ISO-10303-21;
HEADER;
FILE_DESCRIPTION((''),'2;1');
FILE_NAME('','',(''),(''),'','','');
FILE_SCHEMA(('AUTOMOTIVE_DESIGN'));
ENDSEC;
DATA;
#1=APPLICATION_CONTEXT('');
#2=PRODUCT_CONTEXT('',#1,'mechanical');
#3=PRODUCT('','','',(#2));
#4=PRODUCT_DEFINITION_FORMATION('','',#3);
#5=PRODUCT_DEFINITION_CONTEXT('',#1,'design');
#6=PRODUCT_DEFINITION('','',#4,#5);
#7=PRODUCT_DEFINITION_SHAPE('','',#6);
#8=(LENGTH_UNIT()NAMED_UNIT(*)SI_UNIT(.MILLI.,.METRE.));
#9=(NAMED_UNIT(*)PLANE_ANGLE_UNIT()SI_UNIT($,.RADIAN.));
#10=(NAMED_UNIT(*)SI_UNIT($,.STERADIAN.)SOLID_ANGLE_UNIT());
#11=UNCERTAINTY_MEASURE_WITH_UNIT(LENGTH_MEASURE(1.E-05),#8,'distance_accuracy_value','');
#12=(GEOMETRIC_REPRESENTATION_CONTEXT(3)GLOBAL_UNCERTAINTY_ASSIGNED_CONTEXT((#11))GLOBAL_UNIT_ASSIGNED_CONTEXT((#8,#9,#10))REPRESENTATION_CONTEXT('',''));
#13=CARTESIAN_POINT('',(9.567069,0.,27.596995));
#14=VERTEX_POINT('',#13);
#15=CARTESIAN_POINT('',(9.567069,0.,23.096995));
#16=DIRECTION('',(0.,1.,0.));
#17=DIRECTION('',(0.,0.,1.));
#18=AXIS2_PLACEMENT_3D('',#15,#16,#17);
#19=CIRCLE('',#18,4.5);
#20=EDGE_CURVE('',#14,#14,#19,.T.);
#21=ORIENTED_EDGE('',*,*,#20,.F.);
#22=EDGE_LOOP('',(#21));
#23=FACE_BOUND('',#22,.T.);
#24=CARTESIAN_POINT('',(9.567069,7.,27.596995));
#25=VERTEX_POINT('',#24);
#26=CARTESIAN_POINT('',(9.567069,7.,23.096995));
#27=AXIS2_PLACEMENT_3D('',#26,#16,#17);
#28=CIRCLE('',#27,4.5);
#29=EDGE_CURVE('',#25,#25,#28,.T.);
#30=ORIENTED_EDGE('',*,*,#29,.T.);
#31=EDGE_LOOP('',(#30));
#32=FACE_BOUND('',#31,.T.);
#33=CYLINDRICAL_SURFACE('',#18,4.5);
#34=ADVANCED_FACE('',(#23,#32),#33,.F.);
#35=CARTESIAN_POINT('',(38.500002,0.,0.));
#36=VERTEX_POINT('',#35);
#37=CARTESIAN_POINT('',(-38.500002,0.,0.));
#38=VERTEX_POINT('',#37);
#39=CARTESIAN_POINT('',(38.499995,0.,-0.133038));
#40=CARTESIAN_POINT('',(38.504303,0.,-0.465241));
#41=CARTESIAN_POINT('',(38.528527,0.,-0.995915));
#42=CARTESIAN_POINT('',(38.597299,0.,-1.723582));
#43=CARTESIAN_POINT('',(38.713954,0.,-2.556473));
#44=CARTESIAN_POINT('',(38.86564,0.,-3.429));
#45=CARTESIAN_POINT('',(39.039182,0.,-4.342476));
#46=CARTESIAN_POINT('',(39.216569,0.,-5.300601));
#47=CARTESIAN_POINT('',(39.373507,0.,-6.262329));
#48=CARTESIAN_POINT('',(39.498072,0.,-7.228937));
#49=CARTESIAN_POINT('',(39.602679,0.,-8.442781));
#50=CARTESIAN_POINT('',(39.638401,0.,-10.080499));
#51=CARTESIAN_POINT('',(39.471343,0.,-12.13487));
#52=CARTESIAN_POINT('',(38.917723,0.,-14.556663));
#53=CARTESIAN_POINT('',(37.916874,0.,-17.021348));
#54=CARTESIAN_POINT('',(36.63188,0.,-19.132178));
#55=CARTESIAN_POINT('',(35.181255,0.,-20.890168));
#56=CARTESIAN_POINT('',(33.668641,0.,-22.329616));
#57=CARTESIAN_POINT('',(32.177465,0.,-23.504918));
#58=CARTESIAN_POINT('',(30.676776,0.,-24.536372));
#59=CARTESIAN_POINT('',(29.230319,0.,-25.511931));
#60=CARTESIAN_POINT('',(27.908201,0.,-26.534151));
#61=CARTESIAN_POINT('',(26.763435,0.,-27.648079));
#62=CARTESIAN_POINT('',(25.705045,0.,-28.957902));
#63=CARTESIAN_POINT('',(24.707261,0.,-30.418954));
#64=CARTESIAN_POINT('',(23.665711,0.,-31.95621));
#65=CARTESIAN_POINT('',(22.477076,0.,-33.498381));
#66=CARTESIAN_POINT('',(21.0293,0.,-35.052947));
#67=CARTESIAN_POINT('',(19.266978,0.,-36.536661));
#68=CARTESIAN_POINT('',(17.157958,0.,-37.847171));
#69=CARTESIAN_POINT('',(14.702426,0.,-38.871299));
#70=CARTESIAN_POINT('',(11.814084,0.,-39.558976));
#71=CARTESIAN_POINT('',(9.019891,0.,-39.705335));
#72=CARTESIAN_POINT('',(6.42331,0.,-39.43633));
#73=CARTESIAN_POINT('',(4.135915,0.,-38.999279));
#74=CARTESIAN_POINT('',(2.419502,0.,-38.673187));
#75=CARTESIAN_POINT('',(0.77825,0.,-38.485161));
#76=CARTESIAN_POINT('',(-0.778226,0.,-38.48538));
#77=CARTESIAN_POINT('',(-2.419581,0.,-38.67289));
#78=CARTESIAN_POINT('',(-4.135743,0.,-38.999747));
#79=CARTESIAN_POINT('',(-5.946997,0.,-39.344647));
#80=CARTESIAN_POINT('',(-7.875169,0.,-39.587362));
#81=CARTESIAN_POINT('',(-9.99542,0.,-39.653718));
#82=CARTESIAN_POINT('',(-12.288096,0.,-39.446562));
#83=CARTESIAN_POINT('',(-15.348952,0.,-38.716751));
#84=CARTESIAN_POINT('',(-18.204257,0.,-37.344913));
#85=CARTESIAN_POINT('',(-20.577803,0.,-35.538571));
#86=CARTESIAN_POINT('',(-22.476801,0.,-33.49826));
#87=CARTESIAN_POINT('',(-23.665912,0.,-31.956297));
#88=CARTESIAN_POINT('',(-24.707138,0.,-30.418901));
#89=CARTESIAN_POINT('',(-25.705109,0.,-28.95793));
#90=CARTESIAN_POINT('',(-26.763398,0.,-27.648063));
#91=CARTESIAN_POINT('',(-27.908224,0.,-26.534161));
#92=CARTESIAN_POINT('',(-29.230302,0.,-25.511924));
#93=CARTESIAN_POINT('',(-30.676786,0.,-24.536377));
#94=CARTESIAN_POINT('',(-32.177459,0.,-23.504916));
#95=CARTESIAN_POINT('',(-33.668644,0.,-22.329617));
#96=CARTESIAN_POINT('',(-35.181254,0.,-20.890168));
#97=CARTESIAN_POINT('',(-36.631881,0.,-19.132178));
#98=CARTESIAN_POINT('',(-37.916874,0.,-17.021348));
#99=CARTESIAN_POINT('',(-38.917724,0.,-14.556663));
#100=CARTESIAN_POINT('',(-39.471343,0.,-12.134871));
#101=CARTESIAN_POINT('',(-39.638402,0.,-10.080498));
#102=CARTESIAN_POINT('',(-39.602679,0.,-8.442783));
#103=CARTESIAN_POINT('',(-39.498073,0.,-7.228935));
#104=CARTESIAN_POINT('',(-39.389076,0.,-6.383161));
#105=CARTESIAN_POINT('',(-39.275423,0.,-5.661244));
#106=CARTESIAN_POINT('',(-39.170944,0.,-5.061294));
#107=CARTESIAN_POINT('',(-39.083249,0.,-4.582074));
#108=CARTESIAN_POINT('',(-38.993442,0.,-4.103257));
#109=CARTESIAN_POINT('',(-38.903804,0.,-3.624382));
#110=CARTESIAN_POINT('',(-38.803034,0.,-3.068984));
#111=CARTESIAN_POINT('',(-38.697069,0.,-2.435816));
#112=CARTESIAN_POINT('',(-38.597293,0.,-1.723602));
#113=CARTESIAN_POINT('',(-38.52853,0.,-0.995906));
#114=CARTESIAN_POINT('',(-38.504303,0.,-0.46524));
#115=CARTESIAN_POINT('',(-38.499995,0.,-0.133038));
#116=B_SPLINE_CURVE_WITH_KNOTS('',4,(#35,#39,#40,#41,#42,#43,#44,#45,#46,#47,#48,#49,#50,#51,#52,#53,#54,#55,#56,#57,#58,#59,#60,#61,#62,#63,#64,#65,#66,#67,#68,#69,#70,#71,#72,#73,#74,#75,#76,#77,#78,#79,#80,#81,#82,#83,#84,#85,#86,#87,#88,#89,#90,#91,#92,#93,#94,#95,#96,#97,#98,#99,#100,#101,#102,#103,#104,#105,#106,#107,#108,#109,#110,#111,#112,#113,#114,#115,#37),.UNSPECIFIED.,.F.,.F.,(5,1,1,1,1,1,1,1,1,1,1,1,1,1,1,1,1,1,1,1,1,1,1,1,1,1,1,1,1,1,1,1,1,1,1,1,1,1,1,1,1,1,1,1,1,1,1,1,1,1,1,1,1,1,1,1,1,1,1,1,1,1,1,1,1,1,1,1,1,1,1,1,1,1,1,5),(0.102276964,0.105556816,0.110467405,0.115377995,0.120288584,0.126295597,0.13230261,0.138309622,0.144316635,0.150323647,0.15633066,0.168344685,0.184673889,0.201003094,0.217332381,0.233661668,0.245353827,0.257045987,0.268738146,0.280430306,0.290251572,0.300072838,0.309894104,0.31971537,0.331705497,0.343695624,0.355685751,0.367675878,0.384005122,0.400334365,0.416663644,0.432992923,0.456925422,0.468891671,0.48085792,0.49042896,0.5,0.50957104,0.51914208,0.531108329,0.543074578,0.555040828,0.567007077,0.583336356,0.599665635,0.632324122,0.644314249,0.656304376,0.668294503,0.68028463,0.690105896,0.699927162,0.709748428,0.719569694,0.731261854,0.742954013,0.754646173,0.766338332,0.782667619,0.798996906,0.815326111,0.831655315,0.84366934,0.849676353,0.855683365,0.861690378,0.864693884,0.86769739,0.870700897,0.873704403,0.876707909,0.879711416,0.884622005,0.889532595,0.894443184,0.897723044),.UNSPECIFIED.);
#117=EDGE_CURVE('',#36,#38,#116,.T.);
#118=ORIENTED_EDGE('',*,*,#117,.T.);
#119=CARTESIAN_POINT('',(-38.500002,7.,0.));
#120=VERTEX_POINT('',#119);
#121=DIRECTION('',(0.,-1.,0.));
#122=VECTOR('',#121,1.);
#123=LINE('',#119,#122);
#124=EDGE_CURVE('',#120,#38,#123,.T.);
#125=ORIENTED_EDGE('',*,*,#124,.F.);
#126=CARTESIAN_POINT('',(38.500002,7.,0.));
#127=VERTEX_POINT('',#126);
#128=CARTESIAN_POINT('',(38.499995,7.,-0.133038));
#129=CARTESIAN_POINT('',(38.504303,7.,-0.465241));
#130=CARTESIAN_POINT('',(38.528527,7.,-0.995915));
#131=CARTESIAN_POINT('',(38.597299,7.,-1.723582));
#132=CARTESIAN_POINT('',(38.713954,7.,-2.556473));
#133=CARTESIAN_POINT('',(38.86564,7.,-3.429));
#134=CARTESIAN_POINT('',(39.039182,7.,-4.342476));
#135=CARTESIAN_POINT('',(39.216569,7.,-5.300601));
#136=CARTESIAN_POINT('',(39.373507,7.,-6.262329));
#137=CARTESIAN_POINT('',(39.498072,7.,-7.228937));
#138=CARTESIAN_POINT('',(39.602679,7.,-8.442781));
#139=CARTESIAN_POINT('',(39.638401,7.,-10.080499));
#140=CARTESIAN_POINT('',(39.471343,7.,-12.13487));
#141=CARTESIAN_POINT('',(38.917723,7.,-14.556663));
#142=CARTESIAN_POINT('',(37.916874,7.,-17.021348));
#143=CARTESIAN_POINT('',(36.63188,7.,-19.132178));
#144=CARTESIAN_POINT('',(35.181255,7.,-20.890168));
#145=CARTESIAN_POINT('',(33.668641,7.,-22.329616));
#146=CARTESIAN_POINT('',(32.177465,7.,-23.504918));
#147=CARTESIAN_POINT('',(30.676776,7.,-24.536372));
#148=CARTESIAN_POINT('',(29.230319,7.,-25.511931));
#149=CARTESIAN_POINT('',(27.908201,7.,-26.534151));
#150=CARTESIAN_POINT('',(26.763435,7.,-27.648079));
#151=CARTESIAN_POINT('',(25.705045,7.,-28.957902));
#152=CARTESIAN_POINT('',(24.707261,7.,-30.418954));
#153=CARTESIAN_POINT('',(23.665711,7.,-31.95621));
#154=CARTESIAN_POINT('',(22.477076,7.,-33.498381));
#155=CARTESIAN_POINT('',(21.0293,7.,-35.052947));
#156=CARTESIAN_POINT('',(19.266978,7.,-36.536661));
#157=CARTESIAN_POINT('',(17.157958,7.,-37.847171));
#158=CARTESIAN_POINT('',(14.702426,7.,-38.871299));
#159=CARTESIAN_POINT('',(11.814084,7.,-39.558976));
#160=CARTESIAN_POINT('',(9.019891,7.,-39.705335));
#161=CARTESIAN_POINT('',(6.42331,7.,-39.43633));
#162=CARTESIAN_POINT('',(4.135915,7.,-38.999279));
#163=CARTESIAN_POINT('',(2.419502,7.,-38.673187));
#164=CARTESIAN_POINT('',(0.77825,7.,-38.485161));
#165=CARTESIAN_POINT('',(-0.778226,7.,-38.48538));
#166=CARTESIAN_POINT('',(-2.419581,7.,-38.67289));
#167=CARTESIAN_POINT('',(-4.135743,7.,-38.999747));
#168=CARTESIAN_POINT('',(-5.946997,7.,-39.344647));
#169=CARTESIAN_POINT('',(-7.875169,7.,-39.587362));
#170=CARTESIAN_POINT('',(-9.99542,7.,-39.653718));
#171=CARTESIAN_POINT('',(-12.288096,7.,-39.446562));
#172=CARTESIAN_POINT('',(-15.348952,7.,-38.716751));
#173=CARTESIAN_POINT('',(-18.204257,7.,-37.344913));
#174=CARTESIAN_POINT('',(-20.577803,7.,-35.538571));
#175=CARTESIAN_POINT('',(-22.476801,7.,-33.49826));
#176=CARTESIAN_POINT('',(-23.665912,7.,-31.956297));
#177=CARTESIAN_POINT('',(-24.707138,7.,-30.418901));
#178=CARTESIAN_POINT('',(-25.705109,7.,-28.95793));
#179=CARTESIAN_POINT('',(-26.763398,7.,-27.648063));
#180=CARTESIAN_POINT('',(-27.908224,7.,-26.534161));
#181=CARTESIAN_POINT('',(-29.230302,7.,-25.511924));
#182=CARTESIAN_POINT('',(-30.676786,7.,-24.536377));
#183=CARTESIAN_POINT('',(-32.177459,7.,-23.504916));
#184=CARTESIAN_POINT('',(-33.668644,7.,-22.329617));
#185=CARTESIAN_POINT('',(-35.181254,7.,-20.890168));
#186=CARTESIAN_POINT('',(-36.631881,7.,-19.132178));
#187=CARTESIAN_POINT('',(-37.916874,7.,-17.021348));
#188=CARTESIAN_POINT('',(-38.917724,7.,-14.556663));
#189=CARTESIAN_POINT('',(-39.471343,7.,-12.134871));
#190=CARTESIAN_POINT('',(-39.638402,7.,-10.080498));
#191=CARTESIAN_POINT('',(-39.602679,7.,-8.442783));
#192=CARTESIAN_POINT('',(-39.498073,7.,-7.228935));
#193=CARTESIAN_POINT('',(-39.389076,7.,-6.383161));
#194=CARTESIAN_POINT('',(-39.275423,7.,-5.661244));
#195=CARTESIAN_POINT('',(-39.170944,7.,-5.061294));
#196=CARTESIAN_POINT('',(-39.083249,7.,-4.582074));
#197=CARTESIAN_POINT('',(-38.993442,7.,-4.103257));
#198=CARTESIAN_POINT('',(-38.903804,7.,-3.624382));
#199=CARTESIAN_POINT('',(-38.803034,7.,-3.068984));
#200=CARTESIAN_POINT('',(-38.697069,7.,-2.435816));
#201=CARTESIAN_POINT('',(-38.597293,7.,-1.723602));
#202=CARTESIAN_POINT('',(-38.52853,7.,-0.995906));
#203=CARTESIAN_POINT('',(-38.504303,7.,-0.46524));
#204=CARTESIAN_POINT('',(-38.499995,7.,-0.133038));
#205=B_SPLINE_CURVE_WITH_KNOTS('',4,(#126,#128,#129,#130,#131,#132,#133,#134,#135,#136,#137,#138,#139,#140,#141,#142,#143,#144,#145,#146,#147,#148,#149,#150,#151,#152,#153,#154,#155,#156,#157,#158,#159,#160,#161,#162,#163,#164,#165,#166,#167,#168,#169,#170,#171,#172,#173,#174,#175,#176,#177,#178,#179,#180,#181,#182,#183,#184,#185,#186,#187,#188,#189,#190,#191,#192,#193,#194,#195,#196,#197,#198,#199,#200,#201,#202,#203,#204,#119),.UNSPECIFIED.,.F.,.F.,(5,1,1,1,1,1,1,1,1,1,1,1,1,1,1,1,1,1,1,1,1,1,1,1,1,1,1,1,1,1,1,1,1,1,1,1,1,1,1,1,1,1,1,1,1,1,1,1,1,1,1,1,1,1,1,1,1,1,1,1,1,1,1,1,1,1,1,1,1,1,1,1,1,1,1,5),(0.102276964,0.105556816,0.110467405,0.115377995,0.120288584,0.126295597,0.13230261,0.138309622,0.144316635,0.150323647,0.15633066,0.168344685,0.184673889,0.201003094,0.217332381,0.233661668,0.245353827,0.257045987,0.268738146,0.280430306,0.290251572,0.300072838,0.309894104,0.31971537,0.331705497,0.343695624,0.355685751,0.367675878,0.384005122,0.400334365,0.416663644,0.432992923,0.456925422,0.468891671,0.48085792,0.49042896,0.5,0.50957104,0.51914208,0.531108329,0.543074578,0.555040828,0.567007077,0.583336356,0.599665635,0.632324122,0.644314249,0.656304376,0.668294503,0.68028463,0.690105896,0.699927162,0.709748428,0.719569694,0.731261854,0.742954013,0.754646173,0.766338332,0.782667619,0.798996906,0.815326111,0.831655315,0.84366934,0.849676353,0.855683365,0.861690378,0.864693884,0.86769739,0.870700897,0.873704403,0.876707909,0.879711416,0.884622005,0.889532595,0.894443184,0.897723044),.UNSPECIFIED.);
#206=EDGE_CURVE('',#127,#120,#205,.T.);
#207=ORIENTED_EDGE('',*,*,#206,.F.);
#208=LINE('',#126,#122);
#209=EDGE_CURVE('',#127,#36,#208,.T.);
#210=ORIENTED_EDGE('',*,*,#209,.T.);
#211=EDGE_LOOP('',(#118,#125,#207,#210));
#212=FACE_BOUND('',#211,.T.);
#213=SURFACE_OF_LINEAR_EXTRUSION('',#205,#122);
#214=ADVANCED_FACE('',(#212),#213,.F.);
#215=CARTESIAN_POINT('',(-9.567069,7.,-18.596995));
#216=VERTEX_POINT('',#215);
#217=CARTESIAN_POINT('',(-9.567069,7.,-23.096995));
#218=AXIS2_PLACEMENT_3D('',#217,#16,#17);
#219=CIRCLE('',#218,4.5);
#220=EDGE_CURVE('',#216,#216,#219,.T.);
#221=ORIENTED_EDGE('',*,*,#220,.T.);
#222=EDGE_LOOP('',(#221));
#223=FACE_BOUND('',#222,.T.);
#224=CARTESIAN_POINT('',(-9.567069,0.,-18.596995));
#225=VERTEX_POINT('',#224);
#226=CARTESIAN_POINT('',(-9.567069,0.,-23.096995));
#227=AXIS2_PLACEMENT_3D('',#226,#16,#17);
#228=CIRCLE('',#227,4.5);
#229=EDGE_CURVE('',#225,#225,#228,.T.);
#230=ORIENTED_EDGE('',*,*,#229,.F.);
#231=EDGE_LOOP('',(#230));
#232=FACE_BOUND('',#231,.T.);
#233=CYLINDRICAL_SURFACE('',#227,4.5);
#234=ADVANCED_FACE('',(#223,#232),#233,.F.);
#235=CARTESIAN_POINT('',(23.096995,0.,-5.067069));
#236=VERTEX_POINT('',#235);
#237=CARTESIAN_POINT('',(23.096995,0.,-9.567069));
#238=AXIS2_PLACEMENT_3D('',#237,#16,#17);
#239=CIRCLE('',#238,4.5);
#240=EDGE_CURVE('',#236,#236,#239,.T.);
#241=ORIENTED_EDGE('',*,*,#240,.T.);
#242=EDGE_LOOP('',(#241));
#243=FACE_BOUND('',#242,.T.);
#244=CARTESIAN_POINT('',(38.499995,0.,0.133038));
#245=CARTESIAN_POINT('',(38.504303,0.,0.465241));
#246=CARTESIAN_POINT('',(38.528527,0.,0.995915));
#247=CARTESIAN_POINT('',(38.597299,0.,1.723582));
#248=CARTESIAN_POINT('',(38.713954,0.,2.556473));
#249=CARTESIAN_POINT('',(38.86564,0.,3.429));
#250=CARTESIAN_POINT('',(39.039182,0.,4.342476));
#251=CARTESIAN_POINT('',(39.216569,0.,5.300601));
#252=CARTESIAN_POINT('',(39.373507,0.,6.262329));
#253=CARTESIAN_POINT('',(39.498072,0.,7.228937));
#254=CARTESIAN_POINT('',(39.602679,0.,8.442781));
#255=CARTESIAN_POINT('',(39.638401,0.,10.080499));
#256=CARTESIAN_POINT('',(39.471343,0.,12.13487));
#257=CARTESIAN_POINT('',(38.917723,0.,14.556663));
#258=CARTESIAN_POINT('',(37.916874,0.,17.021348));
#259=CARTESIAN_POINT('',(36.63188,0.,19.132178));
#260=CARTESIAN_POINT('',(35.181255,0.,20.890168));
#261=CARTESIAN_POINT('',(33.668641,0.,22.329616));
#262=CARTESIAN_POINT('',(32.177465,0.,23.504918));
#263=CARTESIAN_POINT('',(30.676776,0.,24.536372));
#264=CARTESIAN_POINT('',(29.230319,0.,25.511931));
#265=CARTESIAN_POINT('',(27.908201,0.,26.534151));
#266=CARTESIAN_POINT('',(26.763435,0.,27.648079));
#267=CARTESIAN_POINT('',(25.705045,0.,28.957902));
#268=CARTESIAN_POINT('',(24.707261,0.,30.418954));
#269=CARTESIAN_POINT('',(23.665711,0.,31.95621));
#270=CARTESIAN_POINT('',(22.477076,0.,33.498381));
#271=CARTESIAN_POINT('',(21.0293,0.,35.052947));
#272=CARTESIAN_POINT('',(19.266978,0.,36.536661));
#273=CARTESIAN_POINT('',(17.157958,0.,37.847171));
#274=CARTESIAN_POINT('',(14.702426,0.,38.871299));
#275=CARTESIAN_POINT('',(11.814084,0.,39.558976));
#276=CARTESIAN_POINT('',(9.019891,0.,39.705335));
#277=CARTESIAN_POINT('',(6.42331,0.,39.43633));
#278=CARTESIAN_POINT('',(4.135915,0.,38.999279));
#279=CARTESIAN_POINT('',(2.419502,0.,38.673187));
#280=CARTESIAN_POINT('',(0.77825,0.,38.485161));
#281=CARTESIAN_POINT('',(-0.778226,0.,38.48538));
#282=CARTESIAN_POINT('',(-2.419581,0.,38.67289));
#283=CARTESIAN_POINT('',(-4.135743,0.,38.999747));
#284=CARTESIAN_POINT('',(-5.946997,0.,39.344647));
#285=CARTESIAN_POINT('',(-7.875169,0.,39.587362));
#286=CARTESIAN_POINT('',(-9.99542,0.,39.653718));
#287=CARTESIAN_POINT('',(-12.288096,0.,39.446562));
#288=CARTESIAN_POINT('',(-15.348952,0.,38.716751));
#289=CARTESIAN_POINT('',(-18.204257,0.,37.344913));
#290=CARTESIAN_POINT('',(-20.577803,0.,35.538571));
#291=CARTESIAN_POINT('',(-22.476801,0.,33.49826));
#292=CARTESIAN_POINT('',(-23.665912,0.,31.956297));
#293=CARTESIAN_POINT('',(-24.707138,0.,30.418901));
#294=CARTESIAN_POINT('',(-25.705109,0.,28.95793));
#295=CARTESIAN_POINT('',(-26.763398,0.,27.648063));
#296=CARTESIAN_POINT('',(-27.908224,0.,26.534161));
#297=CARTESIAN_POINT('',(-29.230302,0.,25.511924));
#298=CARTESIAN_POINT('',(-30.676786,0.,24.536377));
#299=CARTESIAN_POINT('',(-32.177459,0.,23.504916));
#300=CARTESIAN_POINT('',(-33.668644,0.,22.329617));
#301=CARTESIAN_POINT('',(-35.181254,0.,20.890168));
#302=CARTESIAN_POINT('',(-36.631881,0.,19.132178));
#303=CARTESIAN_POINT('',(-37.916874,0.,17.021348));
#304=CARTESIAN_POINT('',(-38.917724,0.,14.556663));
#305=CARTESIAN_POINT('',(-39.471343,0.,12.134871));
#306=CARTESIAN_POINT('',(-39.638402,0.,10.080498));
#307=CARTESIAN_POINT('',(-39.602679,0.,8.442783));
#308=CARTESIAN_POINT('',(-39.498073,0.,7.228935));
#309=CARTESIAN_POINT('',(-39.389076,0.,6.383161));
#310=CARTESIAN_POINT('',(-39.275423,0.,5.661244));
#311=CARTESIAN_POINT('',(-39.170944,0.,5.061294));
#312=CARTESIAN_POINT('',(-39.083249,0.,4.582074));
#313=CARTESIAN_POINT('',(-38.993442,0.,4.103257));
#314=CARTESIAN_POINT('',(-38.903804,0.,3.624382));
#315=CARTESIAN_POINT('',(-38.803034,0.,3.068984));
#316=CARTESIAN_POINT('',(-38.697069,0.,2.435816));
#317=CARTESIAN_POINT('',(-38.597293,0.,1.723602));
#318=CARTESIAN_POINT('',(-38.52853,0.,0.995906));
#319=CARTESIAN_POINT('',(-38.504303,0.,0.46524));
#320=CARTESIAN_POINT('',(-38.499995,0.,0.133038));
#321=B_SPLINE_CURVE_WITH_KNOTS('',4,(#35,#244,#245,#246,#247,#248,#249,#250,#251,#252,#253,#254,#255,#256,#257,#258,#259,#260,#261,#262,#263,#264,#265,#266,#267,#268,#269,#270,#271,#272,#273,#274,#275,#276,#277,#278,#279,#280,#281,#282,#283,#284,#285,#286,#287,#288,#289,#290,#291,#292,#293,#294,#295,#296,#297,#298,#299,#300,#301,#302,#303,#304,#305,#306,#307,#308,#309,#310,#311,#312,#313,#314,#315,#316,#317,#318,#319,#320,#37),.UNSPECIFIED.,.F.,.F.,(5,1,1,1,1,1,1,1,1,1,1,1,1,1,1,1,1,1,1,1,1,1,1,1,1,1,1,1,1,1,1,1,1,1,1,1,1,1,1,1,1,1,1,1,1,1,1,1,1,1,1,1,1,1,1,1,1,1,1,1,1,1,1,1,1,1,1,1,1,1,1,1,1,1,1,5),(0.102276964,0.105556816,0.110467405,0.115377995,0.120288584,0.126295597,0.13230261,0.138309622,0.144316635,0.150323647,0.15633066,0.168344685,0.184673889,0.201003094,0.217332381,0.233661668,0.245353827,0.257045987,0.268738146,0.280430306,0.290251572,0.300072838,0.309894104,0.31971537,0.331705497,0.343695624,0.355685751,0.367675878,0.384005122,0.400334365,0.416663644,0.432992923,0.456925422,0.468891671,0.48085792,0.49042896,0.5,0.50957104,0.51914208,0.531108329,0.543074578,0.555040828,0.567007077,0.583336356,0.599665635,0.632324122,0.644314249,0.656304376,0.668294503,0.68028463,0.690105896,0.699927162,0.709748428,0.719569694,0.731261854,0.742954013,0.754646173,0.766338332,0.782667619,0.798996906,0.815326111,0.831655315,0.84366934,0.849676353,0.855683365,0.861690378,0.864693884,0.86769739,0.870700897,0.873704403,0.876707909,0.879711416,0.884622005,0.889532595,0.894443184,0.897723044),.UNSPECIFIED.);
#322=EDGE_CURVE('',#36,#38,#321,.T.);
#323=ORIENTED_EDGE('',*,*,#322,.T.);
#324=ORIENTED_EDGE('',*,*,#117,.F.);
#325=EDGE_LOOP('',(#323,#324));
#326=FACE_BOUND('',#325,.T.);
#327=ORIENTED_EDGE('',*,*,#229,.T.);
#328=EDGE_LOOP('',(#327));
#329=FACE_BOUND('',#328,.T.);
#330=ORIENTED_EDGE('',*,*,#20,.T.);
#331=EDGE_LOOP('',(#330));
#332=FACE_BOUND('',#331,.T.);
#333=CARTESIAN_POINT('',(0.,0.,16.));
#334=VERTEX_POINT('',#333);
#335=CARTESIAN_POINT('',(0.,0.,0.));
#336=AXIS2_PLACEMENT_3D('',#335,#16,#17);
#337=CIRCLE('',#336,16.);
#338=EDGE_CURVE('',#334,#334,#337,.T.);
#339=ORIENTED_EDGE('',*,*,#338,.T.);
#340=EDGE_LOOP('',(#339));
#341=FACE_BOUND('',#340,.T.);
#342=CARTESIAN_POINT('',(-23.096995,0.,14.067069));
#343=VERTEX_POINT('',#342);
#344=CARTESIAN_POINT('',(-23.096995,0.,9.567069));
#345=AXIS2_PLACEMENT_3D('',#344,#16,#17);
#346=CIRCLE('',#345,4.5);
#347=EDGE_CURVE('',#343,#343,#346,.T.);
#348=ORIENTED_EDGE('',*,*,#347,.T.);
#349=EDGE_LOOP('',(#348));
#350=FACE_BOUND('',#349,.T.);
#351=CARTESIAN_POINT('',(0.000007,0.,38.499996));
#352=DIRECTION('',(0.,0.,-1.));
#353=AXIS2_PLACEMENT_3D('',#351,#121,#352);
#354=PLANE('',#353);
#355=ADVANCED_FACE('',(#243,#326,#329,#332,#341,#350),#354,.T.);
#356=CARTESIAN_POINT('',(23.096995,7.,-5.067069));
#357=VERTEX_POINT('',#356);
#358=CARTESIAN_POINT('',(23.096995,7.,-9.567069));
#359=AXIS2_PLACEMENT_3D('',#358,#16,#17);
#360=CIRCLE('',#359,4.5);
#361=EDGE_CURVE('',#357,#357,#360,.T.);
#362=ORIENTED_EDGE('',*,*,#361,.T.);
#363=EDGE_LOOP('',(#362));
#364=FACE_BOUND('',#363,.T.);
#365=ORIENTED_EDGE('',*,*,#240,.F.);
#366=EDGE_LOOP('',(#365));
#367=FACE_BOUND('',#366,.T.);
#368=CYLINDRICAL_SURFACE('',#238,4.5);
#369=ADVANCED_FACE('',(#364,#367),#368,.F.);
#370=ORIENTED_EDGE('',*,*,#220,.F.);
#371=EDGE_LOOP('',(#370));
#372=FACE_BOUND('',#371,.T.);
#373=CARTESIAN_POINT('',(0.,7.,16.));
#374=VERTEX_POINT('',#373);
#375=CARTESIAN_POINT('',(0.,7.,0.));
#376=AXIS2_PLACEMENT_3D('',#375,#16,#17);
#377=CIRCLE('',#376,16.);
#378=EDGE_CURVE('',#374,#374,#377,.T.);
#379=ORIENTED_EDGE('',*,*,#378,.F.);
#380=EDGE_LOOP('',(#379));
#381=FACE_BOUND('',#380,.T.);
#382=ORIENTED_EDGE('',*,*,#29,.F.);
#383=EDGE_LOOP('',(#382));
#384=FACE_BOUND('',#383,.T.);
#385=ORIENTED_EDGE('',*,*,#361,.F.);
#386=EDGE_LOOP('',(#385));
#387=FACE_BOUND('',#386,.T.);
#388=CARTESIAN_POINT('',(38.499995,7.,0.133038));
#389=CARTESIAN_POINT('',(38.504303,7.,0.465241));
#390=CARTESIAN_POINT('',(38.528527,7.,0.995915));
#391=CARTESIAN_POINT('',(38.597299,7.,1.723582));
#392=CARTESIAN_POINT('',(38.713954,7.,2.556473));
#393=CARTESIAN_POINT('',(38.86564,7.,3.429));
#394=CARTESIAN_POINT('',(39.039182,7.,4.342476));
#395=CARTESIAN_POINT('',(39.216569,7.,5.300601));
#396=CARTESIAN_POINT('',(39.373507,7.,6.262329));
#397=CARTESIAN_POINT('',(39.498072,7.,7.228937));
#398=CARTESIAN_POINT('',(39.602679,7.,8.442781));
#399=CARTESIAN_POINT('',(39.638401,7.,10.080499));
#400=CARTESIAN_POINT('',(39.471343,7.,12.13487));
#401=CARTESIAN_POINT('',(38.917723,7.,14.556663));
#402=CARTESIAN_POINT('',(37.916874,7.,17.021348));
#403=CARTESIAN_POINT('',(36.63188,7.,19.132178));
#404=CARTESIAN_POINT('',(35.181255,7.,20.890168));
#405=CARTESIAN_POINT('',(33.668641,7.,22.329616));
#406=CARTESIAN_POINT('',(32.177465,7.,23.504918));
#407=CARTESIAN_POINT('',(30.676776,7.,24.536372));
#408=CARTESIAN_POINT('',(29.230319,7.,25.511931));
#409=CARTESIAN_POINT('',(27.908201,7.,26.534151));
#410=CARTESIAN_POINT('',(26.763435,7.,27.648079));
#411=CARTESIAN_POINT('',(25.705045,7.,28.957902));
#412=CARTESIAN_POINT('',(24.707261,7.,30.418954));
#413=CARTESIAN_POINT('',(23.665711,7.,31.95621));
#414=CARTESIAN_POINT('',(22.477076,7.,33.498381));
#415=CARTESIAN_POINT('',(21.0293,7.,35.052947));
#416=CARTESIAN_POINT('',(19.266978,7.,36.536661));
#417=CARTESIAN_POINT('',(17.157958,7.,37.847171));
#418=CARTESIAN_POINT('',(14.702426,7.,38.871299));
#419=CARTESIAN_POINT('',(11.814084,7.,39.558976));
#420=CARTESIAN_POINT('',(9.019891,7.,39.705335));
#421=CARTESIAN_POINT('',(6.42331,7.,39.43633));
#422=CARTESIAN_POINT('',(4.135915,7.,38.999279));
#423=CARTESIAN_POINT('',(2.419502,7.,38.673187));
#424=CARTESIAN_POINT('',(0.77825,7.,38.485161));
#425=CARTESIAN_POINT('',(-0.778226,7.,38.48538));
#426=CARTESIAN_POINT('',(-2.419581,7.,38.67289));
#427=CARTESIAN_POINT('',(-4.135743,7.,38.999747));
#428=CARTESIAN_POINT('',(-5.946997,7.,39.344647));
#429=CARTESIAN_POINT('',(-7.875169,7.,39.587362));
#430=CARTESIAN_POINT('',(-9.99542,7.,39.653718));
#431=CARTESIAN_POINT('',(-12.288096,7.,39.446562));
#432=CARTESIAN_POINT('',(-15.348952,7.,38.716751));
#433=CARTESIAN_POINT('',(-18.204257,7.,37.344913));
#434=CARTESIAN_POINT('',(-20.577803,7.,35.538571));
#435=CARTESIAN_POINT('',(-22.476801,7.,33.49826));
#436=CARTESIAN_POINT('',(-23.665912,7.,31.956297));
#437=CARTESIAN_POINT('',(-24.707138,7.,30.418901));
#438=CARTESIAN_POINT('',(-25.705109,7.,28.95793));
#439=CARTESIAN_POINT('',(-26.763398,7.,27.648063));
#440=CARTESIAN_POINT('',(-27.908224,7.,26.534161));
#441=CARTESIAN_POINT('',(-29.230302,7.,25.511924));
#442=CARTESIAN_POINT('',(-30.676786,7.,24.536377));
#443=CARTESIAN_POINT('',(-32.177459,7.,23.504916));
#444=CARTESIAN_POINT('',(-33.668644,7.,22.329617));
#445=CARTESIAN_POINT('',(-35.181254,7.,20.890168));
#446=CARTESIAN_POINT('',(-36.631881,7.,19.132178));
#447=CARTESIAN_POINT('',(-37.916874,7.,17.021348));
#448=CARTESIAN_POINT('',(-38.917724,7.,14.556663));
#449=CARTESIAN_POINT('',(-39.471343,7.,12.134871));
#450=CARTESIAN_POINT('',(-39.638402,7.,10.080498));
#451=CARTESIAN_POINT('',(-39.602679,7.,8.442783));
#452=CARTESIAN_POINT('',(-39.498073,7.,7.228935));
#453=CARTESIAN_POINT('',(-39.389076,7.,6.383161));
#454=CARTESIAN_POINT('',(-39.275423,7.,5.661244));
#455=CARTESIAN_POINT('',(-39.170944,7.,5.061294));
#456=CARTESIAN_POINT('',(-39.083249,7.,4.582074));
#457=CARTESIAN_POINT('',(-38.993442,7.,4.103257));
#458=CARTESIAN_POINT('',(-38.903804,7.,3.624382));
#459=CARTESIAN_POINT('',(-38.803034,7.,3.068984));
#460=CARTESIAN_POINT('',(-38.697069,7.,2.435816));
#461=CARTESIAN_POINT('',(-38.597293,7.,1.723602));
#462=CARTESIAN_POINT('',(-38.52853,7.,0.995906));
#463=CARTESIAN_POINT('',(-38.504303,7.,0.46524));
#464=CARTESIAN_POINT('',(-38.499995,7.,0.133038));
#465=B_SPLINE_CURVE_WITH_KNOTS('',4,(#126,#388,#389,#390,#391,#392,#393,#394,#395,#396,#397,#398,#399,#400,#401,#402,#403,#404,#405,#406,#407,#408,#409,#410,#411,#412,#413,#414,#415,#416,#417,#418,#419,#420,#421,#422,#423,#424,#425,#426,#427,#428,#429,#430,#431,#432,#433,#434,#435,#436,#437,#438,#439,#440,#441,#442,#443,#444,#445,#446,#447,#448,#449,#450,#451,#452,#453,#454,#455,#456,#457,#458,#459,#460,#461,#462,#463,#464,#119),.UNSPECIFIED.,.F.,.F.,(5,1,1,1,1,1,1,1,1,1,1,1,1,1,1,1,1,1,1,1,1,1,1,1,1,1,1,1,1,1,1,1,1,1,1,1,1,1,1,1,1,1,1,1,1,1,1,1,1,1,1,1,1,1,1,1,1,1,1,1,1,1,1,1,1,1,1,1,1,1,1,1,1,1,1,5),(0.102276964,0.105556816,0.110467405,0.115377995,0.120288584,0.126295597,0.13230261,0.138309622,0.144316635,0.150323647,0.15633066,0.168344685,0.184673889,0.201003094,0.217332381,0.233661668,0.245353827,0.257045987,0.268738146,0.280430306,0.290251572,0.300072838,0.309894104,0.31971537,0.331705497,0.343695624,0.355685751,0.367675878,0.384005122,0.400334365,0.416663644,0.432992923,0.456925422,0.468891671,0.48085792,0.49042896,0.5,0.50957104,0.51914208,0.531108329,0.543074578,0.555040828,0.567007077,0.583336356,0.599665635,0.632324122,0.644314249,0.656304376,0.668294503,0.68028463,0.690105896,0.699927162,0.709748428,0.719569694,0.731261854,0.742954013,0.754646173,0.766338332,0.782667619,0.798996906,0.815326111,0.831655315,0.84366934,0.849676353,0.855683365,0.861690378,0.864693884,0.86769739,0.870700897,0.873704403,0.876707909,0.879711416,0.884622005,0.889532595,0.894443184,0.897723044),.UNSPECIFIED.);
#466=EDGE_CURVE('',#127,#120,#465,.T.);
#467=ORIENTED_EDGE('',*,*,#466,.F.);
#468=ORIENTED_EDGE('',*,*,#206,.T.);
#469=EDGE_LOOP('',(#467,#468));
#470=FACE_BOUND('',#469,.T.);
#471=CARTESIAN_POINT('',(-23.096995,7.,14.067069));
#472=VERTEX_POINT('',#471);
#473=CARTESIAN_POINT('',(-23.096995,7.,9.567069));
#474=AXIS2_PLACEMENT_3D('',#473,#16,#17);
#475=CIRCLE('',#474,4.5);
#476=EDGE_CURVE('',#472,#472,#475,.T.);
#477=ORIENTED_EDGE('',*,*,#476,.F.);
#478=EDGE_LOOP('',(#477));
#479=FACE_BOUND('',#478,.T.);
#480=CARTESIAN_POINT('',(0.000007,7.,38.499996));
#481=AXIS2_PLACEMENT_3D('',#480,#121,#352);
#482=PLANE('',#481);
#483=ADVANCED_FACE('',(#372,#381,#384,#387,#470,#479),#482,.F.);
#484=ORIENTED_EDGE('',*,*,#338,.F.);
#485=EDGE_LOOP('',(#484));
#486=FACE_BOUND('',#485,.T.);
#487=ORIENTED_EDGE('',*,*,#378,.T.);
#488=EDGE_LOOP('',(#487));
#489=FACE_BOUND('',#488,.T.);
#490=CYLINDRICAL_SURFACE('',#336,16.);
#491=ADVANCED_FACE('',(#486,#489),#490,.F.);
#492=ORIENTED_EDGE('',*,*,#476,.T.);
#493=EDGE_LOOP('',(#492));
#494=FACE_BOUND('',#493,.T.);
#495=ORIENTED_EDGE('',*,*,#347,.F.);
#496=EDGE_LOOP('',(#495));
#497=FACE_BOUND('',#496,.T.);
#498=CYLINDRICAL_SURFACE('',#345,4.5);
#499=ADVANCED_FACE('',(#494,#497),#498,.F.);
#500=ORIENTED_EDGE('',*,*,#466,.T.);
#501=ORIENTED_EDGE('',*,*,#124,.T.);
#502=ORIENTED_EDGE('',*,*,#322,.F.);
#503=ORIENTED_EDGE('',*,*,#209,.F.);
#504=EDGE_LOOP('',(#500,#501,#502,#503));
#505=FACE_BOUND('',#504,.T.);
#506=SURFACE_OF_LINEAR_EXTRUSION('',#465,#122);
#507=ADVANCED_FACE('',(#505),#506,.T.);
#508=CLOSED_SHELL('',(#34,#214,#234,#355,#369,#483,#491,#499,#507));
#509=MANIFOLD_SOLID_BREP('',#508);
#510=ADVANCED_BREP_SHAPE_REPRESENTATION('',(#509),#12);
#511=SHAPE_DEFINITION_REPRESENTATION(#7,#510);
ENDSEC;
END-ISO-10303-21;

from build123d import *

# Parameters (mm, degrees)
BOSS_EXTRUDE1_DEPTH = 7
SKETCH3_R           = 4.5
SKETCH3_R_2         = 16
CUT_EXTRUDE1_DEPTH  = 7


with BuildPart() as part:
    # Sketch2 → Boss-Extrude1 (new body)
    with BuildSketch(Plane(origin=(0, 0, 0), x_dir=(1, 0, 0), z_dir=(0, 1, 0))):
        with BuildLine():
            add(Edge.make_bspline(
                [(38.500001932, 0), (38.49999493, -0.133038025), (38.504303168, -0.465241084), (38.528527213, -0.995915147), (38.597299004, -1.723581558), (38.713954373, -2.556473402), (38.865640285, -3.429000232), (39.039182268, -4.342476136), (39.216569329, -5.300601097), (39.373506849, -6.262329219), (39.498072372, -7.228937475), (39.602679415, -8.442781449), (39.638401085, -10.080498863), (39.471343171, -12.134870391), (38.917723366, -14.556663115), (37.916874201, -17.021348245), (36.631880328, -19.132177598), (35.181255459, -20.890168269), (33.668641012, -22.329615502), (32.17746468, -23.504918274), (30.676775717, -24.53637227), (29.230318997, -25.511931365), (27.908200853, -26.534151326), (26.76343469, -27.648078887), (25.705045065, -28.957902171), (24.707260932, -30.418954005), (23.665711077, -31.956210315), (22.477076324, -33.498381096), (21.029299745, -35.052946841), (19.26697752, -36.536660954), (17.157957829, -37.84717065), (14.702426065, -38.871299083), (11.814083944, -39.558976123), (9.019891244, -39.705335471), (6.423310178, -39.43632976), (4.13591504, -38.999279115), (2.419501708, -38.673186875), (0.778249626, -38.485160743), (-0.77822635, -38.485379818), (-2.419580838, -38.672889794), (-4.135742829, -38.999747405), (-5.946996654, -39.344647228), (-7.875168754, -39.5873623), (-9.995420298, -39.653717755), (-12.288096474, -39.44656229), (-15.348952193, -38.716751342), (-18.204257408, -37.344912694), (-20.577802729, -35.538571367), (-22.476801363, -33.498259602), (-23.6659125, -31.956297347), (-24.707137732, -30.418901145), (-25.705109441, -28.957929727), (-26.76339803, -27.648063208), (-27.908223694, -26.534161088), (-29.230302417, -25.511924287), (-30.67678613, -24.536376699), (-32.177458812, -23.504915804), (-33.668643628, -22.329616565), (-35.181253946, -20.890167706), (-36.631881301, -19.132177878), (-37.916873533, -17.021348182), (-38.917723873, -14.556662976), (-39.471342711, -12.134870792), (-39.638401547, -10.080498118), (-39.602678844, -8.442782724), (-39.498073444, -7.228934716), (-39.389075524, -6.383160667), (-39.275422946, -5.661243945), (-39.170944219, -5.061294369), (-39.083249028, -4.582074459), (-38.99344233, -4.103256554), (-38.90380396, -3.624381742), (-38.803034266, -3.068984042), (-38.697069036, -2.435815687), (-38.597293422, -1.72360163), (-38.528529639, -0.995905984), (-38.504303204, -0.465240188), (-38.499994567, -0.133038295), (-38.500001565, 0)],
                knots=[0.102276964, 0.102276964, 0.102276964, 0.102276964, 0.102276964, 0.105556816, 0.110467405, 0.115377995, 0.120288584, 0.126295597, 0.13230261, 0.138309622, 0.144316635, 0.150323647, 0.15633066, 0.168344685, 0.184673889, 0.201003094, 0.217332381, 0.233661668, 0.245353827, 0.257045987, 0.268738146, 0.280430306, 0.290251572, 0.300072838, 0.309894104, 0.31971537, 0.331705497, 0.343695624, 0.355685751, 0.367675878, 0.384005122, 0.400334365, 0.416663644, 0.432992923, 0.456925422, 0.468891671, 0.48085792, 0.49042896, 0.5, 0.50957104, 0.51914208, 0.531108329, 0.543074578, 0.555040828, 0.567007077, 0.583336356, 0.599665635, 0.632324122, 0.644314249, 0.656304376, 0.668294503, 0.68028463, 0.690105896, 0.699927162, 0.709748428, 0.719569694, 0.731261854, 0.742954013, 0.754646173, 0.766338332, 0.782667619, 0.798996906, 0.815326111, 0.831655315, 0.84366934, 0.849676353, 0.855683365, 0.861690378, 0.864693884, 0.86769739, 0.870700897, 0.873704403, 0.876707909, 0.879711416, 0.884622005, 0.889532595, 0.894443184, 0.897723044, 0.897723044, 0.897723044, 0.897723044, 0.897723044], degree=4))
            add(Edge.make_bspline(
                [(38.500001932, 0), (38.49999493, 0.133038025), (38.504303168, 0.465241084), (38.528527213, 0.995915147), (38.597299004, 1.723581558), (38.713954373, 2.556473402), (38.865640285, 3.429000232), (39.039182268, 4.342476136), (39.216569329, 5.300601097), (39.373506849, 6.262329219), (39.498072372, 7.228937475), (39.602679415, 8.442781449), (39.638401085, 10.080498864), (39.471343171, 12.134870391), (38.917723366, 14.556663115), (37.916874201, 17.021348245), (36.631880327, 19.132177598), (35.181255459, 20.890168269), (33.668641012, 22.329615503), (32.177464679, 23.504918274), (30.676775717, 24.53637227), (29.230318997, 25.511931365), (27.908200853, 26.534151326), (26.76343469, 27.648078887), (25.705045065, 28.957902171), (24.707260932, 30.418954006), (23.665711077, 31.956210316), (22.477076324, 33.498381097), (21.029299745, 35.052946841), (19.26697752, 36.536660954), (17.157957829, 37.84717065), (14.702426064, 38.871299083), (11.814083944, 39.558976123), (9.019891244, 39.705335471), (6.423310178, 39.436329761), (4.13591504, 38.999279115), (2.419501708, 38.673186876), (0.778249626, 38.485160743), (-0.77822635, 38.485379818), (-2.419580838, 38.672889794), (-4.13574283, 38.999747405), (-5.946996654, 39.344647228), (-7.875168754, 39.5873623), (-9.995420299, 39.653717755), (-12.288096474, 39.446562291), (-15.348952193, 38.716751342), (-18.204257408, 37.344912694), (-20.577802729, 35.538571367), (-22.476801363, 33.498259602), (-23.6659125, 31.956297347), (-24.707137732, 30.418901145), (-25.705109441, 28.957929727), (-26.763398031, 27.648063208), (-27.908223694, 26.534161088), (-29.230302417, 25.511924287), (-30.67678613, 24.536376699), (-32.177458812, 23.504915804), (-33.668643628, 22.329616565), (-35.181253946, 20.890167706), (-36.631881301, 19.132177878), (-37.916873533, 17.021348182), (-38.917723873, 14.556662976), (-39.471342711, 12.134870792), (-39.638401547, 10.080498118), (-39.602678844, 8.442782724), (-39.498073444, 7.228934716), (-39.389075524, 6.383160667), (-39.275422946, 5.661243945), (-39.170944219, 5.061294369), (-39.083249028, 4.582074459), (-38.99344233, 4.103256554), (-38.90380396, 3.624381743), (-38.803034266, 3.068984042), (-38.697069036, 2.435815687), (-38.597293422, 1.72360163), (-38.528529639, 0.995905984), (-38.504303204, 0.465240188), (-38.499994567, 0.133038294), (-38.500001565, 0)],
                knots=[0.102276964, 0.102276964, 0.102276964, 0.102276964, 0.102276964, 0.105556816, 0.110467405, 0.115377995, 0.120288584, 0.126295597, 0.13230261, 0.138309622, 0.144316635, 0.150323647, 0.15633066, 0.168344685, 0.184673889, 0.201003094, 0.217332381, 0.233661668, 0.245353827, 0.257045987, 0.268738146, 0.280430306, 0.290251572, 0.300072838, 0.309894104, 0.31971537, 0.331705497, 0.343695624, 0.355685751, 0.367675878, 0.384005122, 0.400334365, 0.416663644, 0.432992923, 0.456925422, 0.468891671, 0.48085792, 0.49042896, 0.5, 0.50957104, 0.51914208, 0.531108329, 0.543074578, 0.555040828, 0.567007077, 0.583336356, 0.599665635, 0.632324122, 0.644314249, 0.656304376, 0.668294503, 0.68028463, 0.690105896, 0.699927162, 0.709748428, 0.719569694, 0.731261854, 0.742954013, 0.754646173, 0.766338332, 0.782667619, 0.798996906, 0.815326111, 0.831655315, 0.84366934, 0.849676353, 0.855683365, 0.861690378, 0.864693884, 0.86769739, 0.870700897, 0.873704403, 0.876707909, 0.879711416, 0.884622005, 0.889532595, 0.894443184, 0.897723044, 0.897723044, 0.897723044, 0.897723044, 0.897723044], degree=4))
        make_face()
    extrude(amount=BOSS_EXTRUDE1_DEPTH)

    # Sketch3 → Cut-Extrude1 (cut)
    with BuildSketch(Plane(origin=(0, 7, 0), x_dir=(1, 0, 0), z_dir=(0, 1, 0))):
        with Locations(Location((23.096995347, 9.567068827, 0), (0, 0, 270))):
            Circle(SKETCH3_R)
        with Locations(Location((9.567068827, -23.096995347, 0), (0, 0, 270))):
            Circle(SKETCH3_R)
        with Locations(Location((-23.096995347, -9.567068827, 0), (0, 0, 270))):
            Circle(SKETCH3_R)
        with Locations(Location((-9.567068827, 23.096995347, 0), (0, 0, 270))):
            Circle(SKETCH3_R)
        with Locations(Location((0, 0, 0), (0, 0, 270))):
            Circle(SKETCH3_R_2)
    extrude(amount=-CUT_EXTRUDE1_DEPTH, mode=Mode.SUBTRACT)


solid = part.part
